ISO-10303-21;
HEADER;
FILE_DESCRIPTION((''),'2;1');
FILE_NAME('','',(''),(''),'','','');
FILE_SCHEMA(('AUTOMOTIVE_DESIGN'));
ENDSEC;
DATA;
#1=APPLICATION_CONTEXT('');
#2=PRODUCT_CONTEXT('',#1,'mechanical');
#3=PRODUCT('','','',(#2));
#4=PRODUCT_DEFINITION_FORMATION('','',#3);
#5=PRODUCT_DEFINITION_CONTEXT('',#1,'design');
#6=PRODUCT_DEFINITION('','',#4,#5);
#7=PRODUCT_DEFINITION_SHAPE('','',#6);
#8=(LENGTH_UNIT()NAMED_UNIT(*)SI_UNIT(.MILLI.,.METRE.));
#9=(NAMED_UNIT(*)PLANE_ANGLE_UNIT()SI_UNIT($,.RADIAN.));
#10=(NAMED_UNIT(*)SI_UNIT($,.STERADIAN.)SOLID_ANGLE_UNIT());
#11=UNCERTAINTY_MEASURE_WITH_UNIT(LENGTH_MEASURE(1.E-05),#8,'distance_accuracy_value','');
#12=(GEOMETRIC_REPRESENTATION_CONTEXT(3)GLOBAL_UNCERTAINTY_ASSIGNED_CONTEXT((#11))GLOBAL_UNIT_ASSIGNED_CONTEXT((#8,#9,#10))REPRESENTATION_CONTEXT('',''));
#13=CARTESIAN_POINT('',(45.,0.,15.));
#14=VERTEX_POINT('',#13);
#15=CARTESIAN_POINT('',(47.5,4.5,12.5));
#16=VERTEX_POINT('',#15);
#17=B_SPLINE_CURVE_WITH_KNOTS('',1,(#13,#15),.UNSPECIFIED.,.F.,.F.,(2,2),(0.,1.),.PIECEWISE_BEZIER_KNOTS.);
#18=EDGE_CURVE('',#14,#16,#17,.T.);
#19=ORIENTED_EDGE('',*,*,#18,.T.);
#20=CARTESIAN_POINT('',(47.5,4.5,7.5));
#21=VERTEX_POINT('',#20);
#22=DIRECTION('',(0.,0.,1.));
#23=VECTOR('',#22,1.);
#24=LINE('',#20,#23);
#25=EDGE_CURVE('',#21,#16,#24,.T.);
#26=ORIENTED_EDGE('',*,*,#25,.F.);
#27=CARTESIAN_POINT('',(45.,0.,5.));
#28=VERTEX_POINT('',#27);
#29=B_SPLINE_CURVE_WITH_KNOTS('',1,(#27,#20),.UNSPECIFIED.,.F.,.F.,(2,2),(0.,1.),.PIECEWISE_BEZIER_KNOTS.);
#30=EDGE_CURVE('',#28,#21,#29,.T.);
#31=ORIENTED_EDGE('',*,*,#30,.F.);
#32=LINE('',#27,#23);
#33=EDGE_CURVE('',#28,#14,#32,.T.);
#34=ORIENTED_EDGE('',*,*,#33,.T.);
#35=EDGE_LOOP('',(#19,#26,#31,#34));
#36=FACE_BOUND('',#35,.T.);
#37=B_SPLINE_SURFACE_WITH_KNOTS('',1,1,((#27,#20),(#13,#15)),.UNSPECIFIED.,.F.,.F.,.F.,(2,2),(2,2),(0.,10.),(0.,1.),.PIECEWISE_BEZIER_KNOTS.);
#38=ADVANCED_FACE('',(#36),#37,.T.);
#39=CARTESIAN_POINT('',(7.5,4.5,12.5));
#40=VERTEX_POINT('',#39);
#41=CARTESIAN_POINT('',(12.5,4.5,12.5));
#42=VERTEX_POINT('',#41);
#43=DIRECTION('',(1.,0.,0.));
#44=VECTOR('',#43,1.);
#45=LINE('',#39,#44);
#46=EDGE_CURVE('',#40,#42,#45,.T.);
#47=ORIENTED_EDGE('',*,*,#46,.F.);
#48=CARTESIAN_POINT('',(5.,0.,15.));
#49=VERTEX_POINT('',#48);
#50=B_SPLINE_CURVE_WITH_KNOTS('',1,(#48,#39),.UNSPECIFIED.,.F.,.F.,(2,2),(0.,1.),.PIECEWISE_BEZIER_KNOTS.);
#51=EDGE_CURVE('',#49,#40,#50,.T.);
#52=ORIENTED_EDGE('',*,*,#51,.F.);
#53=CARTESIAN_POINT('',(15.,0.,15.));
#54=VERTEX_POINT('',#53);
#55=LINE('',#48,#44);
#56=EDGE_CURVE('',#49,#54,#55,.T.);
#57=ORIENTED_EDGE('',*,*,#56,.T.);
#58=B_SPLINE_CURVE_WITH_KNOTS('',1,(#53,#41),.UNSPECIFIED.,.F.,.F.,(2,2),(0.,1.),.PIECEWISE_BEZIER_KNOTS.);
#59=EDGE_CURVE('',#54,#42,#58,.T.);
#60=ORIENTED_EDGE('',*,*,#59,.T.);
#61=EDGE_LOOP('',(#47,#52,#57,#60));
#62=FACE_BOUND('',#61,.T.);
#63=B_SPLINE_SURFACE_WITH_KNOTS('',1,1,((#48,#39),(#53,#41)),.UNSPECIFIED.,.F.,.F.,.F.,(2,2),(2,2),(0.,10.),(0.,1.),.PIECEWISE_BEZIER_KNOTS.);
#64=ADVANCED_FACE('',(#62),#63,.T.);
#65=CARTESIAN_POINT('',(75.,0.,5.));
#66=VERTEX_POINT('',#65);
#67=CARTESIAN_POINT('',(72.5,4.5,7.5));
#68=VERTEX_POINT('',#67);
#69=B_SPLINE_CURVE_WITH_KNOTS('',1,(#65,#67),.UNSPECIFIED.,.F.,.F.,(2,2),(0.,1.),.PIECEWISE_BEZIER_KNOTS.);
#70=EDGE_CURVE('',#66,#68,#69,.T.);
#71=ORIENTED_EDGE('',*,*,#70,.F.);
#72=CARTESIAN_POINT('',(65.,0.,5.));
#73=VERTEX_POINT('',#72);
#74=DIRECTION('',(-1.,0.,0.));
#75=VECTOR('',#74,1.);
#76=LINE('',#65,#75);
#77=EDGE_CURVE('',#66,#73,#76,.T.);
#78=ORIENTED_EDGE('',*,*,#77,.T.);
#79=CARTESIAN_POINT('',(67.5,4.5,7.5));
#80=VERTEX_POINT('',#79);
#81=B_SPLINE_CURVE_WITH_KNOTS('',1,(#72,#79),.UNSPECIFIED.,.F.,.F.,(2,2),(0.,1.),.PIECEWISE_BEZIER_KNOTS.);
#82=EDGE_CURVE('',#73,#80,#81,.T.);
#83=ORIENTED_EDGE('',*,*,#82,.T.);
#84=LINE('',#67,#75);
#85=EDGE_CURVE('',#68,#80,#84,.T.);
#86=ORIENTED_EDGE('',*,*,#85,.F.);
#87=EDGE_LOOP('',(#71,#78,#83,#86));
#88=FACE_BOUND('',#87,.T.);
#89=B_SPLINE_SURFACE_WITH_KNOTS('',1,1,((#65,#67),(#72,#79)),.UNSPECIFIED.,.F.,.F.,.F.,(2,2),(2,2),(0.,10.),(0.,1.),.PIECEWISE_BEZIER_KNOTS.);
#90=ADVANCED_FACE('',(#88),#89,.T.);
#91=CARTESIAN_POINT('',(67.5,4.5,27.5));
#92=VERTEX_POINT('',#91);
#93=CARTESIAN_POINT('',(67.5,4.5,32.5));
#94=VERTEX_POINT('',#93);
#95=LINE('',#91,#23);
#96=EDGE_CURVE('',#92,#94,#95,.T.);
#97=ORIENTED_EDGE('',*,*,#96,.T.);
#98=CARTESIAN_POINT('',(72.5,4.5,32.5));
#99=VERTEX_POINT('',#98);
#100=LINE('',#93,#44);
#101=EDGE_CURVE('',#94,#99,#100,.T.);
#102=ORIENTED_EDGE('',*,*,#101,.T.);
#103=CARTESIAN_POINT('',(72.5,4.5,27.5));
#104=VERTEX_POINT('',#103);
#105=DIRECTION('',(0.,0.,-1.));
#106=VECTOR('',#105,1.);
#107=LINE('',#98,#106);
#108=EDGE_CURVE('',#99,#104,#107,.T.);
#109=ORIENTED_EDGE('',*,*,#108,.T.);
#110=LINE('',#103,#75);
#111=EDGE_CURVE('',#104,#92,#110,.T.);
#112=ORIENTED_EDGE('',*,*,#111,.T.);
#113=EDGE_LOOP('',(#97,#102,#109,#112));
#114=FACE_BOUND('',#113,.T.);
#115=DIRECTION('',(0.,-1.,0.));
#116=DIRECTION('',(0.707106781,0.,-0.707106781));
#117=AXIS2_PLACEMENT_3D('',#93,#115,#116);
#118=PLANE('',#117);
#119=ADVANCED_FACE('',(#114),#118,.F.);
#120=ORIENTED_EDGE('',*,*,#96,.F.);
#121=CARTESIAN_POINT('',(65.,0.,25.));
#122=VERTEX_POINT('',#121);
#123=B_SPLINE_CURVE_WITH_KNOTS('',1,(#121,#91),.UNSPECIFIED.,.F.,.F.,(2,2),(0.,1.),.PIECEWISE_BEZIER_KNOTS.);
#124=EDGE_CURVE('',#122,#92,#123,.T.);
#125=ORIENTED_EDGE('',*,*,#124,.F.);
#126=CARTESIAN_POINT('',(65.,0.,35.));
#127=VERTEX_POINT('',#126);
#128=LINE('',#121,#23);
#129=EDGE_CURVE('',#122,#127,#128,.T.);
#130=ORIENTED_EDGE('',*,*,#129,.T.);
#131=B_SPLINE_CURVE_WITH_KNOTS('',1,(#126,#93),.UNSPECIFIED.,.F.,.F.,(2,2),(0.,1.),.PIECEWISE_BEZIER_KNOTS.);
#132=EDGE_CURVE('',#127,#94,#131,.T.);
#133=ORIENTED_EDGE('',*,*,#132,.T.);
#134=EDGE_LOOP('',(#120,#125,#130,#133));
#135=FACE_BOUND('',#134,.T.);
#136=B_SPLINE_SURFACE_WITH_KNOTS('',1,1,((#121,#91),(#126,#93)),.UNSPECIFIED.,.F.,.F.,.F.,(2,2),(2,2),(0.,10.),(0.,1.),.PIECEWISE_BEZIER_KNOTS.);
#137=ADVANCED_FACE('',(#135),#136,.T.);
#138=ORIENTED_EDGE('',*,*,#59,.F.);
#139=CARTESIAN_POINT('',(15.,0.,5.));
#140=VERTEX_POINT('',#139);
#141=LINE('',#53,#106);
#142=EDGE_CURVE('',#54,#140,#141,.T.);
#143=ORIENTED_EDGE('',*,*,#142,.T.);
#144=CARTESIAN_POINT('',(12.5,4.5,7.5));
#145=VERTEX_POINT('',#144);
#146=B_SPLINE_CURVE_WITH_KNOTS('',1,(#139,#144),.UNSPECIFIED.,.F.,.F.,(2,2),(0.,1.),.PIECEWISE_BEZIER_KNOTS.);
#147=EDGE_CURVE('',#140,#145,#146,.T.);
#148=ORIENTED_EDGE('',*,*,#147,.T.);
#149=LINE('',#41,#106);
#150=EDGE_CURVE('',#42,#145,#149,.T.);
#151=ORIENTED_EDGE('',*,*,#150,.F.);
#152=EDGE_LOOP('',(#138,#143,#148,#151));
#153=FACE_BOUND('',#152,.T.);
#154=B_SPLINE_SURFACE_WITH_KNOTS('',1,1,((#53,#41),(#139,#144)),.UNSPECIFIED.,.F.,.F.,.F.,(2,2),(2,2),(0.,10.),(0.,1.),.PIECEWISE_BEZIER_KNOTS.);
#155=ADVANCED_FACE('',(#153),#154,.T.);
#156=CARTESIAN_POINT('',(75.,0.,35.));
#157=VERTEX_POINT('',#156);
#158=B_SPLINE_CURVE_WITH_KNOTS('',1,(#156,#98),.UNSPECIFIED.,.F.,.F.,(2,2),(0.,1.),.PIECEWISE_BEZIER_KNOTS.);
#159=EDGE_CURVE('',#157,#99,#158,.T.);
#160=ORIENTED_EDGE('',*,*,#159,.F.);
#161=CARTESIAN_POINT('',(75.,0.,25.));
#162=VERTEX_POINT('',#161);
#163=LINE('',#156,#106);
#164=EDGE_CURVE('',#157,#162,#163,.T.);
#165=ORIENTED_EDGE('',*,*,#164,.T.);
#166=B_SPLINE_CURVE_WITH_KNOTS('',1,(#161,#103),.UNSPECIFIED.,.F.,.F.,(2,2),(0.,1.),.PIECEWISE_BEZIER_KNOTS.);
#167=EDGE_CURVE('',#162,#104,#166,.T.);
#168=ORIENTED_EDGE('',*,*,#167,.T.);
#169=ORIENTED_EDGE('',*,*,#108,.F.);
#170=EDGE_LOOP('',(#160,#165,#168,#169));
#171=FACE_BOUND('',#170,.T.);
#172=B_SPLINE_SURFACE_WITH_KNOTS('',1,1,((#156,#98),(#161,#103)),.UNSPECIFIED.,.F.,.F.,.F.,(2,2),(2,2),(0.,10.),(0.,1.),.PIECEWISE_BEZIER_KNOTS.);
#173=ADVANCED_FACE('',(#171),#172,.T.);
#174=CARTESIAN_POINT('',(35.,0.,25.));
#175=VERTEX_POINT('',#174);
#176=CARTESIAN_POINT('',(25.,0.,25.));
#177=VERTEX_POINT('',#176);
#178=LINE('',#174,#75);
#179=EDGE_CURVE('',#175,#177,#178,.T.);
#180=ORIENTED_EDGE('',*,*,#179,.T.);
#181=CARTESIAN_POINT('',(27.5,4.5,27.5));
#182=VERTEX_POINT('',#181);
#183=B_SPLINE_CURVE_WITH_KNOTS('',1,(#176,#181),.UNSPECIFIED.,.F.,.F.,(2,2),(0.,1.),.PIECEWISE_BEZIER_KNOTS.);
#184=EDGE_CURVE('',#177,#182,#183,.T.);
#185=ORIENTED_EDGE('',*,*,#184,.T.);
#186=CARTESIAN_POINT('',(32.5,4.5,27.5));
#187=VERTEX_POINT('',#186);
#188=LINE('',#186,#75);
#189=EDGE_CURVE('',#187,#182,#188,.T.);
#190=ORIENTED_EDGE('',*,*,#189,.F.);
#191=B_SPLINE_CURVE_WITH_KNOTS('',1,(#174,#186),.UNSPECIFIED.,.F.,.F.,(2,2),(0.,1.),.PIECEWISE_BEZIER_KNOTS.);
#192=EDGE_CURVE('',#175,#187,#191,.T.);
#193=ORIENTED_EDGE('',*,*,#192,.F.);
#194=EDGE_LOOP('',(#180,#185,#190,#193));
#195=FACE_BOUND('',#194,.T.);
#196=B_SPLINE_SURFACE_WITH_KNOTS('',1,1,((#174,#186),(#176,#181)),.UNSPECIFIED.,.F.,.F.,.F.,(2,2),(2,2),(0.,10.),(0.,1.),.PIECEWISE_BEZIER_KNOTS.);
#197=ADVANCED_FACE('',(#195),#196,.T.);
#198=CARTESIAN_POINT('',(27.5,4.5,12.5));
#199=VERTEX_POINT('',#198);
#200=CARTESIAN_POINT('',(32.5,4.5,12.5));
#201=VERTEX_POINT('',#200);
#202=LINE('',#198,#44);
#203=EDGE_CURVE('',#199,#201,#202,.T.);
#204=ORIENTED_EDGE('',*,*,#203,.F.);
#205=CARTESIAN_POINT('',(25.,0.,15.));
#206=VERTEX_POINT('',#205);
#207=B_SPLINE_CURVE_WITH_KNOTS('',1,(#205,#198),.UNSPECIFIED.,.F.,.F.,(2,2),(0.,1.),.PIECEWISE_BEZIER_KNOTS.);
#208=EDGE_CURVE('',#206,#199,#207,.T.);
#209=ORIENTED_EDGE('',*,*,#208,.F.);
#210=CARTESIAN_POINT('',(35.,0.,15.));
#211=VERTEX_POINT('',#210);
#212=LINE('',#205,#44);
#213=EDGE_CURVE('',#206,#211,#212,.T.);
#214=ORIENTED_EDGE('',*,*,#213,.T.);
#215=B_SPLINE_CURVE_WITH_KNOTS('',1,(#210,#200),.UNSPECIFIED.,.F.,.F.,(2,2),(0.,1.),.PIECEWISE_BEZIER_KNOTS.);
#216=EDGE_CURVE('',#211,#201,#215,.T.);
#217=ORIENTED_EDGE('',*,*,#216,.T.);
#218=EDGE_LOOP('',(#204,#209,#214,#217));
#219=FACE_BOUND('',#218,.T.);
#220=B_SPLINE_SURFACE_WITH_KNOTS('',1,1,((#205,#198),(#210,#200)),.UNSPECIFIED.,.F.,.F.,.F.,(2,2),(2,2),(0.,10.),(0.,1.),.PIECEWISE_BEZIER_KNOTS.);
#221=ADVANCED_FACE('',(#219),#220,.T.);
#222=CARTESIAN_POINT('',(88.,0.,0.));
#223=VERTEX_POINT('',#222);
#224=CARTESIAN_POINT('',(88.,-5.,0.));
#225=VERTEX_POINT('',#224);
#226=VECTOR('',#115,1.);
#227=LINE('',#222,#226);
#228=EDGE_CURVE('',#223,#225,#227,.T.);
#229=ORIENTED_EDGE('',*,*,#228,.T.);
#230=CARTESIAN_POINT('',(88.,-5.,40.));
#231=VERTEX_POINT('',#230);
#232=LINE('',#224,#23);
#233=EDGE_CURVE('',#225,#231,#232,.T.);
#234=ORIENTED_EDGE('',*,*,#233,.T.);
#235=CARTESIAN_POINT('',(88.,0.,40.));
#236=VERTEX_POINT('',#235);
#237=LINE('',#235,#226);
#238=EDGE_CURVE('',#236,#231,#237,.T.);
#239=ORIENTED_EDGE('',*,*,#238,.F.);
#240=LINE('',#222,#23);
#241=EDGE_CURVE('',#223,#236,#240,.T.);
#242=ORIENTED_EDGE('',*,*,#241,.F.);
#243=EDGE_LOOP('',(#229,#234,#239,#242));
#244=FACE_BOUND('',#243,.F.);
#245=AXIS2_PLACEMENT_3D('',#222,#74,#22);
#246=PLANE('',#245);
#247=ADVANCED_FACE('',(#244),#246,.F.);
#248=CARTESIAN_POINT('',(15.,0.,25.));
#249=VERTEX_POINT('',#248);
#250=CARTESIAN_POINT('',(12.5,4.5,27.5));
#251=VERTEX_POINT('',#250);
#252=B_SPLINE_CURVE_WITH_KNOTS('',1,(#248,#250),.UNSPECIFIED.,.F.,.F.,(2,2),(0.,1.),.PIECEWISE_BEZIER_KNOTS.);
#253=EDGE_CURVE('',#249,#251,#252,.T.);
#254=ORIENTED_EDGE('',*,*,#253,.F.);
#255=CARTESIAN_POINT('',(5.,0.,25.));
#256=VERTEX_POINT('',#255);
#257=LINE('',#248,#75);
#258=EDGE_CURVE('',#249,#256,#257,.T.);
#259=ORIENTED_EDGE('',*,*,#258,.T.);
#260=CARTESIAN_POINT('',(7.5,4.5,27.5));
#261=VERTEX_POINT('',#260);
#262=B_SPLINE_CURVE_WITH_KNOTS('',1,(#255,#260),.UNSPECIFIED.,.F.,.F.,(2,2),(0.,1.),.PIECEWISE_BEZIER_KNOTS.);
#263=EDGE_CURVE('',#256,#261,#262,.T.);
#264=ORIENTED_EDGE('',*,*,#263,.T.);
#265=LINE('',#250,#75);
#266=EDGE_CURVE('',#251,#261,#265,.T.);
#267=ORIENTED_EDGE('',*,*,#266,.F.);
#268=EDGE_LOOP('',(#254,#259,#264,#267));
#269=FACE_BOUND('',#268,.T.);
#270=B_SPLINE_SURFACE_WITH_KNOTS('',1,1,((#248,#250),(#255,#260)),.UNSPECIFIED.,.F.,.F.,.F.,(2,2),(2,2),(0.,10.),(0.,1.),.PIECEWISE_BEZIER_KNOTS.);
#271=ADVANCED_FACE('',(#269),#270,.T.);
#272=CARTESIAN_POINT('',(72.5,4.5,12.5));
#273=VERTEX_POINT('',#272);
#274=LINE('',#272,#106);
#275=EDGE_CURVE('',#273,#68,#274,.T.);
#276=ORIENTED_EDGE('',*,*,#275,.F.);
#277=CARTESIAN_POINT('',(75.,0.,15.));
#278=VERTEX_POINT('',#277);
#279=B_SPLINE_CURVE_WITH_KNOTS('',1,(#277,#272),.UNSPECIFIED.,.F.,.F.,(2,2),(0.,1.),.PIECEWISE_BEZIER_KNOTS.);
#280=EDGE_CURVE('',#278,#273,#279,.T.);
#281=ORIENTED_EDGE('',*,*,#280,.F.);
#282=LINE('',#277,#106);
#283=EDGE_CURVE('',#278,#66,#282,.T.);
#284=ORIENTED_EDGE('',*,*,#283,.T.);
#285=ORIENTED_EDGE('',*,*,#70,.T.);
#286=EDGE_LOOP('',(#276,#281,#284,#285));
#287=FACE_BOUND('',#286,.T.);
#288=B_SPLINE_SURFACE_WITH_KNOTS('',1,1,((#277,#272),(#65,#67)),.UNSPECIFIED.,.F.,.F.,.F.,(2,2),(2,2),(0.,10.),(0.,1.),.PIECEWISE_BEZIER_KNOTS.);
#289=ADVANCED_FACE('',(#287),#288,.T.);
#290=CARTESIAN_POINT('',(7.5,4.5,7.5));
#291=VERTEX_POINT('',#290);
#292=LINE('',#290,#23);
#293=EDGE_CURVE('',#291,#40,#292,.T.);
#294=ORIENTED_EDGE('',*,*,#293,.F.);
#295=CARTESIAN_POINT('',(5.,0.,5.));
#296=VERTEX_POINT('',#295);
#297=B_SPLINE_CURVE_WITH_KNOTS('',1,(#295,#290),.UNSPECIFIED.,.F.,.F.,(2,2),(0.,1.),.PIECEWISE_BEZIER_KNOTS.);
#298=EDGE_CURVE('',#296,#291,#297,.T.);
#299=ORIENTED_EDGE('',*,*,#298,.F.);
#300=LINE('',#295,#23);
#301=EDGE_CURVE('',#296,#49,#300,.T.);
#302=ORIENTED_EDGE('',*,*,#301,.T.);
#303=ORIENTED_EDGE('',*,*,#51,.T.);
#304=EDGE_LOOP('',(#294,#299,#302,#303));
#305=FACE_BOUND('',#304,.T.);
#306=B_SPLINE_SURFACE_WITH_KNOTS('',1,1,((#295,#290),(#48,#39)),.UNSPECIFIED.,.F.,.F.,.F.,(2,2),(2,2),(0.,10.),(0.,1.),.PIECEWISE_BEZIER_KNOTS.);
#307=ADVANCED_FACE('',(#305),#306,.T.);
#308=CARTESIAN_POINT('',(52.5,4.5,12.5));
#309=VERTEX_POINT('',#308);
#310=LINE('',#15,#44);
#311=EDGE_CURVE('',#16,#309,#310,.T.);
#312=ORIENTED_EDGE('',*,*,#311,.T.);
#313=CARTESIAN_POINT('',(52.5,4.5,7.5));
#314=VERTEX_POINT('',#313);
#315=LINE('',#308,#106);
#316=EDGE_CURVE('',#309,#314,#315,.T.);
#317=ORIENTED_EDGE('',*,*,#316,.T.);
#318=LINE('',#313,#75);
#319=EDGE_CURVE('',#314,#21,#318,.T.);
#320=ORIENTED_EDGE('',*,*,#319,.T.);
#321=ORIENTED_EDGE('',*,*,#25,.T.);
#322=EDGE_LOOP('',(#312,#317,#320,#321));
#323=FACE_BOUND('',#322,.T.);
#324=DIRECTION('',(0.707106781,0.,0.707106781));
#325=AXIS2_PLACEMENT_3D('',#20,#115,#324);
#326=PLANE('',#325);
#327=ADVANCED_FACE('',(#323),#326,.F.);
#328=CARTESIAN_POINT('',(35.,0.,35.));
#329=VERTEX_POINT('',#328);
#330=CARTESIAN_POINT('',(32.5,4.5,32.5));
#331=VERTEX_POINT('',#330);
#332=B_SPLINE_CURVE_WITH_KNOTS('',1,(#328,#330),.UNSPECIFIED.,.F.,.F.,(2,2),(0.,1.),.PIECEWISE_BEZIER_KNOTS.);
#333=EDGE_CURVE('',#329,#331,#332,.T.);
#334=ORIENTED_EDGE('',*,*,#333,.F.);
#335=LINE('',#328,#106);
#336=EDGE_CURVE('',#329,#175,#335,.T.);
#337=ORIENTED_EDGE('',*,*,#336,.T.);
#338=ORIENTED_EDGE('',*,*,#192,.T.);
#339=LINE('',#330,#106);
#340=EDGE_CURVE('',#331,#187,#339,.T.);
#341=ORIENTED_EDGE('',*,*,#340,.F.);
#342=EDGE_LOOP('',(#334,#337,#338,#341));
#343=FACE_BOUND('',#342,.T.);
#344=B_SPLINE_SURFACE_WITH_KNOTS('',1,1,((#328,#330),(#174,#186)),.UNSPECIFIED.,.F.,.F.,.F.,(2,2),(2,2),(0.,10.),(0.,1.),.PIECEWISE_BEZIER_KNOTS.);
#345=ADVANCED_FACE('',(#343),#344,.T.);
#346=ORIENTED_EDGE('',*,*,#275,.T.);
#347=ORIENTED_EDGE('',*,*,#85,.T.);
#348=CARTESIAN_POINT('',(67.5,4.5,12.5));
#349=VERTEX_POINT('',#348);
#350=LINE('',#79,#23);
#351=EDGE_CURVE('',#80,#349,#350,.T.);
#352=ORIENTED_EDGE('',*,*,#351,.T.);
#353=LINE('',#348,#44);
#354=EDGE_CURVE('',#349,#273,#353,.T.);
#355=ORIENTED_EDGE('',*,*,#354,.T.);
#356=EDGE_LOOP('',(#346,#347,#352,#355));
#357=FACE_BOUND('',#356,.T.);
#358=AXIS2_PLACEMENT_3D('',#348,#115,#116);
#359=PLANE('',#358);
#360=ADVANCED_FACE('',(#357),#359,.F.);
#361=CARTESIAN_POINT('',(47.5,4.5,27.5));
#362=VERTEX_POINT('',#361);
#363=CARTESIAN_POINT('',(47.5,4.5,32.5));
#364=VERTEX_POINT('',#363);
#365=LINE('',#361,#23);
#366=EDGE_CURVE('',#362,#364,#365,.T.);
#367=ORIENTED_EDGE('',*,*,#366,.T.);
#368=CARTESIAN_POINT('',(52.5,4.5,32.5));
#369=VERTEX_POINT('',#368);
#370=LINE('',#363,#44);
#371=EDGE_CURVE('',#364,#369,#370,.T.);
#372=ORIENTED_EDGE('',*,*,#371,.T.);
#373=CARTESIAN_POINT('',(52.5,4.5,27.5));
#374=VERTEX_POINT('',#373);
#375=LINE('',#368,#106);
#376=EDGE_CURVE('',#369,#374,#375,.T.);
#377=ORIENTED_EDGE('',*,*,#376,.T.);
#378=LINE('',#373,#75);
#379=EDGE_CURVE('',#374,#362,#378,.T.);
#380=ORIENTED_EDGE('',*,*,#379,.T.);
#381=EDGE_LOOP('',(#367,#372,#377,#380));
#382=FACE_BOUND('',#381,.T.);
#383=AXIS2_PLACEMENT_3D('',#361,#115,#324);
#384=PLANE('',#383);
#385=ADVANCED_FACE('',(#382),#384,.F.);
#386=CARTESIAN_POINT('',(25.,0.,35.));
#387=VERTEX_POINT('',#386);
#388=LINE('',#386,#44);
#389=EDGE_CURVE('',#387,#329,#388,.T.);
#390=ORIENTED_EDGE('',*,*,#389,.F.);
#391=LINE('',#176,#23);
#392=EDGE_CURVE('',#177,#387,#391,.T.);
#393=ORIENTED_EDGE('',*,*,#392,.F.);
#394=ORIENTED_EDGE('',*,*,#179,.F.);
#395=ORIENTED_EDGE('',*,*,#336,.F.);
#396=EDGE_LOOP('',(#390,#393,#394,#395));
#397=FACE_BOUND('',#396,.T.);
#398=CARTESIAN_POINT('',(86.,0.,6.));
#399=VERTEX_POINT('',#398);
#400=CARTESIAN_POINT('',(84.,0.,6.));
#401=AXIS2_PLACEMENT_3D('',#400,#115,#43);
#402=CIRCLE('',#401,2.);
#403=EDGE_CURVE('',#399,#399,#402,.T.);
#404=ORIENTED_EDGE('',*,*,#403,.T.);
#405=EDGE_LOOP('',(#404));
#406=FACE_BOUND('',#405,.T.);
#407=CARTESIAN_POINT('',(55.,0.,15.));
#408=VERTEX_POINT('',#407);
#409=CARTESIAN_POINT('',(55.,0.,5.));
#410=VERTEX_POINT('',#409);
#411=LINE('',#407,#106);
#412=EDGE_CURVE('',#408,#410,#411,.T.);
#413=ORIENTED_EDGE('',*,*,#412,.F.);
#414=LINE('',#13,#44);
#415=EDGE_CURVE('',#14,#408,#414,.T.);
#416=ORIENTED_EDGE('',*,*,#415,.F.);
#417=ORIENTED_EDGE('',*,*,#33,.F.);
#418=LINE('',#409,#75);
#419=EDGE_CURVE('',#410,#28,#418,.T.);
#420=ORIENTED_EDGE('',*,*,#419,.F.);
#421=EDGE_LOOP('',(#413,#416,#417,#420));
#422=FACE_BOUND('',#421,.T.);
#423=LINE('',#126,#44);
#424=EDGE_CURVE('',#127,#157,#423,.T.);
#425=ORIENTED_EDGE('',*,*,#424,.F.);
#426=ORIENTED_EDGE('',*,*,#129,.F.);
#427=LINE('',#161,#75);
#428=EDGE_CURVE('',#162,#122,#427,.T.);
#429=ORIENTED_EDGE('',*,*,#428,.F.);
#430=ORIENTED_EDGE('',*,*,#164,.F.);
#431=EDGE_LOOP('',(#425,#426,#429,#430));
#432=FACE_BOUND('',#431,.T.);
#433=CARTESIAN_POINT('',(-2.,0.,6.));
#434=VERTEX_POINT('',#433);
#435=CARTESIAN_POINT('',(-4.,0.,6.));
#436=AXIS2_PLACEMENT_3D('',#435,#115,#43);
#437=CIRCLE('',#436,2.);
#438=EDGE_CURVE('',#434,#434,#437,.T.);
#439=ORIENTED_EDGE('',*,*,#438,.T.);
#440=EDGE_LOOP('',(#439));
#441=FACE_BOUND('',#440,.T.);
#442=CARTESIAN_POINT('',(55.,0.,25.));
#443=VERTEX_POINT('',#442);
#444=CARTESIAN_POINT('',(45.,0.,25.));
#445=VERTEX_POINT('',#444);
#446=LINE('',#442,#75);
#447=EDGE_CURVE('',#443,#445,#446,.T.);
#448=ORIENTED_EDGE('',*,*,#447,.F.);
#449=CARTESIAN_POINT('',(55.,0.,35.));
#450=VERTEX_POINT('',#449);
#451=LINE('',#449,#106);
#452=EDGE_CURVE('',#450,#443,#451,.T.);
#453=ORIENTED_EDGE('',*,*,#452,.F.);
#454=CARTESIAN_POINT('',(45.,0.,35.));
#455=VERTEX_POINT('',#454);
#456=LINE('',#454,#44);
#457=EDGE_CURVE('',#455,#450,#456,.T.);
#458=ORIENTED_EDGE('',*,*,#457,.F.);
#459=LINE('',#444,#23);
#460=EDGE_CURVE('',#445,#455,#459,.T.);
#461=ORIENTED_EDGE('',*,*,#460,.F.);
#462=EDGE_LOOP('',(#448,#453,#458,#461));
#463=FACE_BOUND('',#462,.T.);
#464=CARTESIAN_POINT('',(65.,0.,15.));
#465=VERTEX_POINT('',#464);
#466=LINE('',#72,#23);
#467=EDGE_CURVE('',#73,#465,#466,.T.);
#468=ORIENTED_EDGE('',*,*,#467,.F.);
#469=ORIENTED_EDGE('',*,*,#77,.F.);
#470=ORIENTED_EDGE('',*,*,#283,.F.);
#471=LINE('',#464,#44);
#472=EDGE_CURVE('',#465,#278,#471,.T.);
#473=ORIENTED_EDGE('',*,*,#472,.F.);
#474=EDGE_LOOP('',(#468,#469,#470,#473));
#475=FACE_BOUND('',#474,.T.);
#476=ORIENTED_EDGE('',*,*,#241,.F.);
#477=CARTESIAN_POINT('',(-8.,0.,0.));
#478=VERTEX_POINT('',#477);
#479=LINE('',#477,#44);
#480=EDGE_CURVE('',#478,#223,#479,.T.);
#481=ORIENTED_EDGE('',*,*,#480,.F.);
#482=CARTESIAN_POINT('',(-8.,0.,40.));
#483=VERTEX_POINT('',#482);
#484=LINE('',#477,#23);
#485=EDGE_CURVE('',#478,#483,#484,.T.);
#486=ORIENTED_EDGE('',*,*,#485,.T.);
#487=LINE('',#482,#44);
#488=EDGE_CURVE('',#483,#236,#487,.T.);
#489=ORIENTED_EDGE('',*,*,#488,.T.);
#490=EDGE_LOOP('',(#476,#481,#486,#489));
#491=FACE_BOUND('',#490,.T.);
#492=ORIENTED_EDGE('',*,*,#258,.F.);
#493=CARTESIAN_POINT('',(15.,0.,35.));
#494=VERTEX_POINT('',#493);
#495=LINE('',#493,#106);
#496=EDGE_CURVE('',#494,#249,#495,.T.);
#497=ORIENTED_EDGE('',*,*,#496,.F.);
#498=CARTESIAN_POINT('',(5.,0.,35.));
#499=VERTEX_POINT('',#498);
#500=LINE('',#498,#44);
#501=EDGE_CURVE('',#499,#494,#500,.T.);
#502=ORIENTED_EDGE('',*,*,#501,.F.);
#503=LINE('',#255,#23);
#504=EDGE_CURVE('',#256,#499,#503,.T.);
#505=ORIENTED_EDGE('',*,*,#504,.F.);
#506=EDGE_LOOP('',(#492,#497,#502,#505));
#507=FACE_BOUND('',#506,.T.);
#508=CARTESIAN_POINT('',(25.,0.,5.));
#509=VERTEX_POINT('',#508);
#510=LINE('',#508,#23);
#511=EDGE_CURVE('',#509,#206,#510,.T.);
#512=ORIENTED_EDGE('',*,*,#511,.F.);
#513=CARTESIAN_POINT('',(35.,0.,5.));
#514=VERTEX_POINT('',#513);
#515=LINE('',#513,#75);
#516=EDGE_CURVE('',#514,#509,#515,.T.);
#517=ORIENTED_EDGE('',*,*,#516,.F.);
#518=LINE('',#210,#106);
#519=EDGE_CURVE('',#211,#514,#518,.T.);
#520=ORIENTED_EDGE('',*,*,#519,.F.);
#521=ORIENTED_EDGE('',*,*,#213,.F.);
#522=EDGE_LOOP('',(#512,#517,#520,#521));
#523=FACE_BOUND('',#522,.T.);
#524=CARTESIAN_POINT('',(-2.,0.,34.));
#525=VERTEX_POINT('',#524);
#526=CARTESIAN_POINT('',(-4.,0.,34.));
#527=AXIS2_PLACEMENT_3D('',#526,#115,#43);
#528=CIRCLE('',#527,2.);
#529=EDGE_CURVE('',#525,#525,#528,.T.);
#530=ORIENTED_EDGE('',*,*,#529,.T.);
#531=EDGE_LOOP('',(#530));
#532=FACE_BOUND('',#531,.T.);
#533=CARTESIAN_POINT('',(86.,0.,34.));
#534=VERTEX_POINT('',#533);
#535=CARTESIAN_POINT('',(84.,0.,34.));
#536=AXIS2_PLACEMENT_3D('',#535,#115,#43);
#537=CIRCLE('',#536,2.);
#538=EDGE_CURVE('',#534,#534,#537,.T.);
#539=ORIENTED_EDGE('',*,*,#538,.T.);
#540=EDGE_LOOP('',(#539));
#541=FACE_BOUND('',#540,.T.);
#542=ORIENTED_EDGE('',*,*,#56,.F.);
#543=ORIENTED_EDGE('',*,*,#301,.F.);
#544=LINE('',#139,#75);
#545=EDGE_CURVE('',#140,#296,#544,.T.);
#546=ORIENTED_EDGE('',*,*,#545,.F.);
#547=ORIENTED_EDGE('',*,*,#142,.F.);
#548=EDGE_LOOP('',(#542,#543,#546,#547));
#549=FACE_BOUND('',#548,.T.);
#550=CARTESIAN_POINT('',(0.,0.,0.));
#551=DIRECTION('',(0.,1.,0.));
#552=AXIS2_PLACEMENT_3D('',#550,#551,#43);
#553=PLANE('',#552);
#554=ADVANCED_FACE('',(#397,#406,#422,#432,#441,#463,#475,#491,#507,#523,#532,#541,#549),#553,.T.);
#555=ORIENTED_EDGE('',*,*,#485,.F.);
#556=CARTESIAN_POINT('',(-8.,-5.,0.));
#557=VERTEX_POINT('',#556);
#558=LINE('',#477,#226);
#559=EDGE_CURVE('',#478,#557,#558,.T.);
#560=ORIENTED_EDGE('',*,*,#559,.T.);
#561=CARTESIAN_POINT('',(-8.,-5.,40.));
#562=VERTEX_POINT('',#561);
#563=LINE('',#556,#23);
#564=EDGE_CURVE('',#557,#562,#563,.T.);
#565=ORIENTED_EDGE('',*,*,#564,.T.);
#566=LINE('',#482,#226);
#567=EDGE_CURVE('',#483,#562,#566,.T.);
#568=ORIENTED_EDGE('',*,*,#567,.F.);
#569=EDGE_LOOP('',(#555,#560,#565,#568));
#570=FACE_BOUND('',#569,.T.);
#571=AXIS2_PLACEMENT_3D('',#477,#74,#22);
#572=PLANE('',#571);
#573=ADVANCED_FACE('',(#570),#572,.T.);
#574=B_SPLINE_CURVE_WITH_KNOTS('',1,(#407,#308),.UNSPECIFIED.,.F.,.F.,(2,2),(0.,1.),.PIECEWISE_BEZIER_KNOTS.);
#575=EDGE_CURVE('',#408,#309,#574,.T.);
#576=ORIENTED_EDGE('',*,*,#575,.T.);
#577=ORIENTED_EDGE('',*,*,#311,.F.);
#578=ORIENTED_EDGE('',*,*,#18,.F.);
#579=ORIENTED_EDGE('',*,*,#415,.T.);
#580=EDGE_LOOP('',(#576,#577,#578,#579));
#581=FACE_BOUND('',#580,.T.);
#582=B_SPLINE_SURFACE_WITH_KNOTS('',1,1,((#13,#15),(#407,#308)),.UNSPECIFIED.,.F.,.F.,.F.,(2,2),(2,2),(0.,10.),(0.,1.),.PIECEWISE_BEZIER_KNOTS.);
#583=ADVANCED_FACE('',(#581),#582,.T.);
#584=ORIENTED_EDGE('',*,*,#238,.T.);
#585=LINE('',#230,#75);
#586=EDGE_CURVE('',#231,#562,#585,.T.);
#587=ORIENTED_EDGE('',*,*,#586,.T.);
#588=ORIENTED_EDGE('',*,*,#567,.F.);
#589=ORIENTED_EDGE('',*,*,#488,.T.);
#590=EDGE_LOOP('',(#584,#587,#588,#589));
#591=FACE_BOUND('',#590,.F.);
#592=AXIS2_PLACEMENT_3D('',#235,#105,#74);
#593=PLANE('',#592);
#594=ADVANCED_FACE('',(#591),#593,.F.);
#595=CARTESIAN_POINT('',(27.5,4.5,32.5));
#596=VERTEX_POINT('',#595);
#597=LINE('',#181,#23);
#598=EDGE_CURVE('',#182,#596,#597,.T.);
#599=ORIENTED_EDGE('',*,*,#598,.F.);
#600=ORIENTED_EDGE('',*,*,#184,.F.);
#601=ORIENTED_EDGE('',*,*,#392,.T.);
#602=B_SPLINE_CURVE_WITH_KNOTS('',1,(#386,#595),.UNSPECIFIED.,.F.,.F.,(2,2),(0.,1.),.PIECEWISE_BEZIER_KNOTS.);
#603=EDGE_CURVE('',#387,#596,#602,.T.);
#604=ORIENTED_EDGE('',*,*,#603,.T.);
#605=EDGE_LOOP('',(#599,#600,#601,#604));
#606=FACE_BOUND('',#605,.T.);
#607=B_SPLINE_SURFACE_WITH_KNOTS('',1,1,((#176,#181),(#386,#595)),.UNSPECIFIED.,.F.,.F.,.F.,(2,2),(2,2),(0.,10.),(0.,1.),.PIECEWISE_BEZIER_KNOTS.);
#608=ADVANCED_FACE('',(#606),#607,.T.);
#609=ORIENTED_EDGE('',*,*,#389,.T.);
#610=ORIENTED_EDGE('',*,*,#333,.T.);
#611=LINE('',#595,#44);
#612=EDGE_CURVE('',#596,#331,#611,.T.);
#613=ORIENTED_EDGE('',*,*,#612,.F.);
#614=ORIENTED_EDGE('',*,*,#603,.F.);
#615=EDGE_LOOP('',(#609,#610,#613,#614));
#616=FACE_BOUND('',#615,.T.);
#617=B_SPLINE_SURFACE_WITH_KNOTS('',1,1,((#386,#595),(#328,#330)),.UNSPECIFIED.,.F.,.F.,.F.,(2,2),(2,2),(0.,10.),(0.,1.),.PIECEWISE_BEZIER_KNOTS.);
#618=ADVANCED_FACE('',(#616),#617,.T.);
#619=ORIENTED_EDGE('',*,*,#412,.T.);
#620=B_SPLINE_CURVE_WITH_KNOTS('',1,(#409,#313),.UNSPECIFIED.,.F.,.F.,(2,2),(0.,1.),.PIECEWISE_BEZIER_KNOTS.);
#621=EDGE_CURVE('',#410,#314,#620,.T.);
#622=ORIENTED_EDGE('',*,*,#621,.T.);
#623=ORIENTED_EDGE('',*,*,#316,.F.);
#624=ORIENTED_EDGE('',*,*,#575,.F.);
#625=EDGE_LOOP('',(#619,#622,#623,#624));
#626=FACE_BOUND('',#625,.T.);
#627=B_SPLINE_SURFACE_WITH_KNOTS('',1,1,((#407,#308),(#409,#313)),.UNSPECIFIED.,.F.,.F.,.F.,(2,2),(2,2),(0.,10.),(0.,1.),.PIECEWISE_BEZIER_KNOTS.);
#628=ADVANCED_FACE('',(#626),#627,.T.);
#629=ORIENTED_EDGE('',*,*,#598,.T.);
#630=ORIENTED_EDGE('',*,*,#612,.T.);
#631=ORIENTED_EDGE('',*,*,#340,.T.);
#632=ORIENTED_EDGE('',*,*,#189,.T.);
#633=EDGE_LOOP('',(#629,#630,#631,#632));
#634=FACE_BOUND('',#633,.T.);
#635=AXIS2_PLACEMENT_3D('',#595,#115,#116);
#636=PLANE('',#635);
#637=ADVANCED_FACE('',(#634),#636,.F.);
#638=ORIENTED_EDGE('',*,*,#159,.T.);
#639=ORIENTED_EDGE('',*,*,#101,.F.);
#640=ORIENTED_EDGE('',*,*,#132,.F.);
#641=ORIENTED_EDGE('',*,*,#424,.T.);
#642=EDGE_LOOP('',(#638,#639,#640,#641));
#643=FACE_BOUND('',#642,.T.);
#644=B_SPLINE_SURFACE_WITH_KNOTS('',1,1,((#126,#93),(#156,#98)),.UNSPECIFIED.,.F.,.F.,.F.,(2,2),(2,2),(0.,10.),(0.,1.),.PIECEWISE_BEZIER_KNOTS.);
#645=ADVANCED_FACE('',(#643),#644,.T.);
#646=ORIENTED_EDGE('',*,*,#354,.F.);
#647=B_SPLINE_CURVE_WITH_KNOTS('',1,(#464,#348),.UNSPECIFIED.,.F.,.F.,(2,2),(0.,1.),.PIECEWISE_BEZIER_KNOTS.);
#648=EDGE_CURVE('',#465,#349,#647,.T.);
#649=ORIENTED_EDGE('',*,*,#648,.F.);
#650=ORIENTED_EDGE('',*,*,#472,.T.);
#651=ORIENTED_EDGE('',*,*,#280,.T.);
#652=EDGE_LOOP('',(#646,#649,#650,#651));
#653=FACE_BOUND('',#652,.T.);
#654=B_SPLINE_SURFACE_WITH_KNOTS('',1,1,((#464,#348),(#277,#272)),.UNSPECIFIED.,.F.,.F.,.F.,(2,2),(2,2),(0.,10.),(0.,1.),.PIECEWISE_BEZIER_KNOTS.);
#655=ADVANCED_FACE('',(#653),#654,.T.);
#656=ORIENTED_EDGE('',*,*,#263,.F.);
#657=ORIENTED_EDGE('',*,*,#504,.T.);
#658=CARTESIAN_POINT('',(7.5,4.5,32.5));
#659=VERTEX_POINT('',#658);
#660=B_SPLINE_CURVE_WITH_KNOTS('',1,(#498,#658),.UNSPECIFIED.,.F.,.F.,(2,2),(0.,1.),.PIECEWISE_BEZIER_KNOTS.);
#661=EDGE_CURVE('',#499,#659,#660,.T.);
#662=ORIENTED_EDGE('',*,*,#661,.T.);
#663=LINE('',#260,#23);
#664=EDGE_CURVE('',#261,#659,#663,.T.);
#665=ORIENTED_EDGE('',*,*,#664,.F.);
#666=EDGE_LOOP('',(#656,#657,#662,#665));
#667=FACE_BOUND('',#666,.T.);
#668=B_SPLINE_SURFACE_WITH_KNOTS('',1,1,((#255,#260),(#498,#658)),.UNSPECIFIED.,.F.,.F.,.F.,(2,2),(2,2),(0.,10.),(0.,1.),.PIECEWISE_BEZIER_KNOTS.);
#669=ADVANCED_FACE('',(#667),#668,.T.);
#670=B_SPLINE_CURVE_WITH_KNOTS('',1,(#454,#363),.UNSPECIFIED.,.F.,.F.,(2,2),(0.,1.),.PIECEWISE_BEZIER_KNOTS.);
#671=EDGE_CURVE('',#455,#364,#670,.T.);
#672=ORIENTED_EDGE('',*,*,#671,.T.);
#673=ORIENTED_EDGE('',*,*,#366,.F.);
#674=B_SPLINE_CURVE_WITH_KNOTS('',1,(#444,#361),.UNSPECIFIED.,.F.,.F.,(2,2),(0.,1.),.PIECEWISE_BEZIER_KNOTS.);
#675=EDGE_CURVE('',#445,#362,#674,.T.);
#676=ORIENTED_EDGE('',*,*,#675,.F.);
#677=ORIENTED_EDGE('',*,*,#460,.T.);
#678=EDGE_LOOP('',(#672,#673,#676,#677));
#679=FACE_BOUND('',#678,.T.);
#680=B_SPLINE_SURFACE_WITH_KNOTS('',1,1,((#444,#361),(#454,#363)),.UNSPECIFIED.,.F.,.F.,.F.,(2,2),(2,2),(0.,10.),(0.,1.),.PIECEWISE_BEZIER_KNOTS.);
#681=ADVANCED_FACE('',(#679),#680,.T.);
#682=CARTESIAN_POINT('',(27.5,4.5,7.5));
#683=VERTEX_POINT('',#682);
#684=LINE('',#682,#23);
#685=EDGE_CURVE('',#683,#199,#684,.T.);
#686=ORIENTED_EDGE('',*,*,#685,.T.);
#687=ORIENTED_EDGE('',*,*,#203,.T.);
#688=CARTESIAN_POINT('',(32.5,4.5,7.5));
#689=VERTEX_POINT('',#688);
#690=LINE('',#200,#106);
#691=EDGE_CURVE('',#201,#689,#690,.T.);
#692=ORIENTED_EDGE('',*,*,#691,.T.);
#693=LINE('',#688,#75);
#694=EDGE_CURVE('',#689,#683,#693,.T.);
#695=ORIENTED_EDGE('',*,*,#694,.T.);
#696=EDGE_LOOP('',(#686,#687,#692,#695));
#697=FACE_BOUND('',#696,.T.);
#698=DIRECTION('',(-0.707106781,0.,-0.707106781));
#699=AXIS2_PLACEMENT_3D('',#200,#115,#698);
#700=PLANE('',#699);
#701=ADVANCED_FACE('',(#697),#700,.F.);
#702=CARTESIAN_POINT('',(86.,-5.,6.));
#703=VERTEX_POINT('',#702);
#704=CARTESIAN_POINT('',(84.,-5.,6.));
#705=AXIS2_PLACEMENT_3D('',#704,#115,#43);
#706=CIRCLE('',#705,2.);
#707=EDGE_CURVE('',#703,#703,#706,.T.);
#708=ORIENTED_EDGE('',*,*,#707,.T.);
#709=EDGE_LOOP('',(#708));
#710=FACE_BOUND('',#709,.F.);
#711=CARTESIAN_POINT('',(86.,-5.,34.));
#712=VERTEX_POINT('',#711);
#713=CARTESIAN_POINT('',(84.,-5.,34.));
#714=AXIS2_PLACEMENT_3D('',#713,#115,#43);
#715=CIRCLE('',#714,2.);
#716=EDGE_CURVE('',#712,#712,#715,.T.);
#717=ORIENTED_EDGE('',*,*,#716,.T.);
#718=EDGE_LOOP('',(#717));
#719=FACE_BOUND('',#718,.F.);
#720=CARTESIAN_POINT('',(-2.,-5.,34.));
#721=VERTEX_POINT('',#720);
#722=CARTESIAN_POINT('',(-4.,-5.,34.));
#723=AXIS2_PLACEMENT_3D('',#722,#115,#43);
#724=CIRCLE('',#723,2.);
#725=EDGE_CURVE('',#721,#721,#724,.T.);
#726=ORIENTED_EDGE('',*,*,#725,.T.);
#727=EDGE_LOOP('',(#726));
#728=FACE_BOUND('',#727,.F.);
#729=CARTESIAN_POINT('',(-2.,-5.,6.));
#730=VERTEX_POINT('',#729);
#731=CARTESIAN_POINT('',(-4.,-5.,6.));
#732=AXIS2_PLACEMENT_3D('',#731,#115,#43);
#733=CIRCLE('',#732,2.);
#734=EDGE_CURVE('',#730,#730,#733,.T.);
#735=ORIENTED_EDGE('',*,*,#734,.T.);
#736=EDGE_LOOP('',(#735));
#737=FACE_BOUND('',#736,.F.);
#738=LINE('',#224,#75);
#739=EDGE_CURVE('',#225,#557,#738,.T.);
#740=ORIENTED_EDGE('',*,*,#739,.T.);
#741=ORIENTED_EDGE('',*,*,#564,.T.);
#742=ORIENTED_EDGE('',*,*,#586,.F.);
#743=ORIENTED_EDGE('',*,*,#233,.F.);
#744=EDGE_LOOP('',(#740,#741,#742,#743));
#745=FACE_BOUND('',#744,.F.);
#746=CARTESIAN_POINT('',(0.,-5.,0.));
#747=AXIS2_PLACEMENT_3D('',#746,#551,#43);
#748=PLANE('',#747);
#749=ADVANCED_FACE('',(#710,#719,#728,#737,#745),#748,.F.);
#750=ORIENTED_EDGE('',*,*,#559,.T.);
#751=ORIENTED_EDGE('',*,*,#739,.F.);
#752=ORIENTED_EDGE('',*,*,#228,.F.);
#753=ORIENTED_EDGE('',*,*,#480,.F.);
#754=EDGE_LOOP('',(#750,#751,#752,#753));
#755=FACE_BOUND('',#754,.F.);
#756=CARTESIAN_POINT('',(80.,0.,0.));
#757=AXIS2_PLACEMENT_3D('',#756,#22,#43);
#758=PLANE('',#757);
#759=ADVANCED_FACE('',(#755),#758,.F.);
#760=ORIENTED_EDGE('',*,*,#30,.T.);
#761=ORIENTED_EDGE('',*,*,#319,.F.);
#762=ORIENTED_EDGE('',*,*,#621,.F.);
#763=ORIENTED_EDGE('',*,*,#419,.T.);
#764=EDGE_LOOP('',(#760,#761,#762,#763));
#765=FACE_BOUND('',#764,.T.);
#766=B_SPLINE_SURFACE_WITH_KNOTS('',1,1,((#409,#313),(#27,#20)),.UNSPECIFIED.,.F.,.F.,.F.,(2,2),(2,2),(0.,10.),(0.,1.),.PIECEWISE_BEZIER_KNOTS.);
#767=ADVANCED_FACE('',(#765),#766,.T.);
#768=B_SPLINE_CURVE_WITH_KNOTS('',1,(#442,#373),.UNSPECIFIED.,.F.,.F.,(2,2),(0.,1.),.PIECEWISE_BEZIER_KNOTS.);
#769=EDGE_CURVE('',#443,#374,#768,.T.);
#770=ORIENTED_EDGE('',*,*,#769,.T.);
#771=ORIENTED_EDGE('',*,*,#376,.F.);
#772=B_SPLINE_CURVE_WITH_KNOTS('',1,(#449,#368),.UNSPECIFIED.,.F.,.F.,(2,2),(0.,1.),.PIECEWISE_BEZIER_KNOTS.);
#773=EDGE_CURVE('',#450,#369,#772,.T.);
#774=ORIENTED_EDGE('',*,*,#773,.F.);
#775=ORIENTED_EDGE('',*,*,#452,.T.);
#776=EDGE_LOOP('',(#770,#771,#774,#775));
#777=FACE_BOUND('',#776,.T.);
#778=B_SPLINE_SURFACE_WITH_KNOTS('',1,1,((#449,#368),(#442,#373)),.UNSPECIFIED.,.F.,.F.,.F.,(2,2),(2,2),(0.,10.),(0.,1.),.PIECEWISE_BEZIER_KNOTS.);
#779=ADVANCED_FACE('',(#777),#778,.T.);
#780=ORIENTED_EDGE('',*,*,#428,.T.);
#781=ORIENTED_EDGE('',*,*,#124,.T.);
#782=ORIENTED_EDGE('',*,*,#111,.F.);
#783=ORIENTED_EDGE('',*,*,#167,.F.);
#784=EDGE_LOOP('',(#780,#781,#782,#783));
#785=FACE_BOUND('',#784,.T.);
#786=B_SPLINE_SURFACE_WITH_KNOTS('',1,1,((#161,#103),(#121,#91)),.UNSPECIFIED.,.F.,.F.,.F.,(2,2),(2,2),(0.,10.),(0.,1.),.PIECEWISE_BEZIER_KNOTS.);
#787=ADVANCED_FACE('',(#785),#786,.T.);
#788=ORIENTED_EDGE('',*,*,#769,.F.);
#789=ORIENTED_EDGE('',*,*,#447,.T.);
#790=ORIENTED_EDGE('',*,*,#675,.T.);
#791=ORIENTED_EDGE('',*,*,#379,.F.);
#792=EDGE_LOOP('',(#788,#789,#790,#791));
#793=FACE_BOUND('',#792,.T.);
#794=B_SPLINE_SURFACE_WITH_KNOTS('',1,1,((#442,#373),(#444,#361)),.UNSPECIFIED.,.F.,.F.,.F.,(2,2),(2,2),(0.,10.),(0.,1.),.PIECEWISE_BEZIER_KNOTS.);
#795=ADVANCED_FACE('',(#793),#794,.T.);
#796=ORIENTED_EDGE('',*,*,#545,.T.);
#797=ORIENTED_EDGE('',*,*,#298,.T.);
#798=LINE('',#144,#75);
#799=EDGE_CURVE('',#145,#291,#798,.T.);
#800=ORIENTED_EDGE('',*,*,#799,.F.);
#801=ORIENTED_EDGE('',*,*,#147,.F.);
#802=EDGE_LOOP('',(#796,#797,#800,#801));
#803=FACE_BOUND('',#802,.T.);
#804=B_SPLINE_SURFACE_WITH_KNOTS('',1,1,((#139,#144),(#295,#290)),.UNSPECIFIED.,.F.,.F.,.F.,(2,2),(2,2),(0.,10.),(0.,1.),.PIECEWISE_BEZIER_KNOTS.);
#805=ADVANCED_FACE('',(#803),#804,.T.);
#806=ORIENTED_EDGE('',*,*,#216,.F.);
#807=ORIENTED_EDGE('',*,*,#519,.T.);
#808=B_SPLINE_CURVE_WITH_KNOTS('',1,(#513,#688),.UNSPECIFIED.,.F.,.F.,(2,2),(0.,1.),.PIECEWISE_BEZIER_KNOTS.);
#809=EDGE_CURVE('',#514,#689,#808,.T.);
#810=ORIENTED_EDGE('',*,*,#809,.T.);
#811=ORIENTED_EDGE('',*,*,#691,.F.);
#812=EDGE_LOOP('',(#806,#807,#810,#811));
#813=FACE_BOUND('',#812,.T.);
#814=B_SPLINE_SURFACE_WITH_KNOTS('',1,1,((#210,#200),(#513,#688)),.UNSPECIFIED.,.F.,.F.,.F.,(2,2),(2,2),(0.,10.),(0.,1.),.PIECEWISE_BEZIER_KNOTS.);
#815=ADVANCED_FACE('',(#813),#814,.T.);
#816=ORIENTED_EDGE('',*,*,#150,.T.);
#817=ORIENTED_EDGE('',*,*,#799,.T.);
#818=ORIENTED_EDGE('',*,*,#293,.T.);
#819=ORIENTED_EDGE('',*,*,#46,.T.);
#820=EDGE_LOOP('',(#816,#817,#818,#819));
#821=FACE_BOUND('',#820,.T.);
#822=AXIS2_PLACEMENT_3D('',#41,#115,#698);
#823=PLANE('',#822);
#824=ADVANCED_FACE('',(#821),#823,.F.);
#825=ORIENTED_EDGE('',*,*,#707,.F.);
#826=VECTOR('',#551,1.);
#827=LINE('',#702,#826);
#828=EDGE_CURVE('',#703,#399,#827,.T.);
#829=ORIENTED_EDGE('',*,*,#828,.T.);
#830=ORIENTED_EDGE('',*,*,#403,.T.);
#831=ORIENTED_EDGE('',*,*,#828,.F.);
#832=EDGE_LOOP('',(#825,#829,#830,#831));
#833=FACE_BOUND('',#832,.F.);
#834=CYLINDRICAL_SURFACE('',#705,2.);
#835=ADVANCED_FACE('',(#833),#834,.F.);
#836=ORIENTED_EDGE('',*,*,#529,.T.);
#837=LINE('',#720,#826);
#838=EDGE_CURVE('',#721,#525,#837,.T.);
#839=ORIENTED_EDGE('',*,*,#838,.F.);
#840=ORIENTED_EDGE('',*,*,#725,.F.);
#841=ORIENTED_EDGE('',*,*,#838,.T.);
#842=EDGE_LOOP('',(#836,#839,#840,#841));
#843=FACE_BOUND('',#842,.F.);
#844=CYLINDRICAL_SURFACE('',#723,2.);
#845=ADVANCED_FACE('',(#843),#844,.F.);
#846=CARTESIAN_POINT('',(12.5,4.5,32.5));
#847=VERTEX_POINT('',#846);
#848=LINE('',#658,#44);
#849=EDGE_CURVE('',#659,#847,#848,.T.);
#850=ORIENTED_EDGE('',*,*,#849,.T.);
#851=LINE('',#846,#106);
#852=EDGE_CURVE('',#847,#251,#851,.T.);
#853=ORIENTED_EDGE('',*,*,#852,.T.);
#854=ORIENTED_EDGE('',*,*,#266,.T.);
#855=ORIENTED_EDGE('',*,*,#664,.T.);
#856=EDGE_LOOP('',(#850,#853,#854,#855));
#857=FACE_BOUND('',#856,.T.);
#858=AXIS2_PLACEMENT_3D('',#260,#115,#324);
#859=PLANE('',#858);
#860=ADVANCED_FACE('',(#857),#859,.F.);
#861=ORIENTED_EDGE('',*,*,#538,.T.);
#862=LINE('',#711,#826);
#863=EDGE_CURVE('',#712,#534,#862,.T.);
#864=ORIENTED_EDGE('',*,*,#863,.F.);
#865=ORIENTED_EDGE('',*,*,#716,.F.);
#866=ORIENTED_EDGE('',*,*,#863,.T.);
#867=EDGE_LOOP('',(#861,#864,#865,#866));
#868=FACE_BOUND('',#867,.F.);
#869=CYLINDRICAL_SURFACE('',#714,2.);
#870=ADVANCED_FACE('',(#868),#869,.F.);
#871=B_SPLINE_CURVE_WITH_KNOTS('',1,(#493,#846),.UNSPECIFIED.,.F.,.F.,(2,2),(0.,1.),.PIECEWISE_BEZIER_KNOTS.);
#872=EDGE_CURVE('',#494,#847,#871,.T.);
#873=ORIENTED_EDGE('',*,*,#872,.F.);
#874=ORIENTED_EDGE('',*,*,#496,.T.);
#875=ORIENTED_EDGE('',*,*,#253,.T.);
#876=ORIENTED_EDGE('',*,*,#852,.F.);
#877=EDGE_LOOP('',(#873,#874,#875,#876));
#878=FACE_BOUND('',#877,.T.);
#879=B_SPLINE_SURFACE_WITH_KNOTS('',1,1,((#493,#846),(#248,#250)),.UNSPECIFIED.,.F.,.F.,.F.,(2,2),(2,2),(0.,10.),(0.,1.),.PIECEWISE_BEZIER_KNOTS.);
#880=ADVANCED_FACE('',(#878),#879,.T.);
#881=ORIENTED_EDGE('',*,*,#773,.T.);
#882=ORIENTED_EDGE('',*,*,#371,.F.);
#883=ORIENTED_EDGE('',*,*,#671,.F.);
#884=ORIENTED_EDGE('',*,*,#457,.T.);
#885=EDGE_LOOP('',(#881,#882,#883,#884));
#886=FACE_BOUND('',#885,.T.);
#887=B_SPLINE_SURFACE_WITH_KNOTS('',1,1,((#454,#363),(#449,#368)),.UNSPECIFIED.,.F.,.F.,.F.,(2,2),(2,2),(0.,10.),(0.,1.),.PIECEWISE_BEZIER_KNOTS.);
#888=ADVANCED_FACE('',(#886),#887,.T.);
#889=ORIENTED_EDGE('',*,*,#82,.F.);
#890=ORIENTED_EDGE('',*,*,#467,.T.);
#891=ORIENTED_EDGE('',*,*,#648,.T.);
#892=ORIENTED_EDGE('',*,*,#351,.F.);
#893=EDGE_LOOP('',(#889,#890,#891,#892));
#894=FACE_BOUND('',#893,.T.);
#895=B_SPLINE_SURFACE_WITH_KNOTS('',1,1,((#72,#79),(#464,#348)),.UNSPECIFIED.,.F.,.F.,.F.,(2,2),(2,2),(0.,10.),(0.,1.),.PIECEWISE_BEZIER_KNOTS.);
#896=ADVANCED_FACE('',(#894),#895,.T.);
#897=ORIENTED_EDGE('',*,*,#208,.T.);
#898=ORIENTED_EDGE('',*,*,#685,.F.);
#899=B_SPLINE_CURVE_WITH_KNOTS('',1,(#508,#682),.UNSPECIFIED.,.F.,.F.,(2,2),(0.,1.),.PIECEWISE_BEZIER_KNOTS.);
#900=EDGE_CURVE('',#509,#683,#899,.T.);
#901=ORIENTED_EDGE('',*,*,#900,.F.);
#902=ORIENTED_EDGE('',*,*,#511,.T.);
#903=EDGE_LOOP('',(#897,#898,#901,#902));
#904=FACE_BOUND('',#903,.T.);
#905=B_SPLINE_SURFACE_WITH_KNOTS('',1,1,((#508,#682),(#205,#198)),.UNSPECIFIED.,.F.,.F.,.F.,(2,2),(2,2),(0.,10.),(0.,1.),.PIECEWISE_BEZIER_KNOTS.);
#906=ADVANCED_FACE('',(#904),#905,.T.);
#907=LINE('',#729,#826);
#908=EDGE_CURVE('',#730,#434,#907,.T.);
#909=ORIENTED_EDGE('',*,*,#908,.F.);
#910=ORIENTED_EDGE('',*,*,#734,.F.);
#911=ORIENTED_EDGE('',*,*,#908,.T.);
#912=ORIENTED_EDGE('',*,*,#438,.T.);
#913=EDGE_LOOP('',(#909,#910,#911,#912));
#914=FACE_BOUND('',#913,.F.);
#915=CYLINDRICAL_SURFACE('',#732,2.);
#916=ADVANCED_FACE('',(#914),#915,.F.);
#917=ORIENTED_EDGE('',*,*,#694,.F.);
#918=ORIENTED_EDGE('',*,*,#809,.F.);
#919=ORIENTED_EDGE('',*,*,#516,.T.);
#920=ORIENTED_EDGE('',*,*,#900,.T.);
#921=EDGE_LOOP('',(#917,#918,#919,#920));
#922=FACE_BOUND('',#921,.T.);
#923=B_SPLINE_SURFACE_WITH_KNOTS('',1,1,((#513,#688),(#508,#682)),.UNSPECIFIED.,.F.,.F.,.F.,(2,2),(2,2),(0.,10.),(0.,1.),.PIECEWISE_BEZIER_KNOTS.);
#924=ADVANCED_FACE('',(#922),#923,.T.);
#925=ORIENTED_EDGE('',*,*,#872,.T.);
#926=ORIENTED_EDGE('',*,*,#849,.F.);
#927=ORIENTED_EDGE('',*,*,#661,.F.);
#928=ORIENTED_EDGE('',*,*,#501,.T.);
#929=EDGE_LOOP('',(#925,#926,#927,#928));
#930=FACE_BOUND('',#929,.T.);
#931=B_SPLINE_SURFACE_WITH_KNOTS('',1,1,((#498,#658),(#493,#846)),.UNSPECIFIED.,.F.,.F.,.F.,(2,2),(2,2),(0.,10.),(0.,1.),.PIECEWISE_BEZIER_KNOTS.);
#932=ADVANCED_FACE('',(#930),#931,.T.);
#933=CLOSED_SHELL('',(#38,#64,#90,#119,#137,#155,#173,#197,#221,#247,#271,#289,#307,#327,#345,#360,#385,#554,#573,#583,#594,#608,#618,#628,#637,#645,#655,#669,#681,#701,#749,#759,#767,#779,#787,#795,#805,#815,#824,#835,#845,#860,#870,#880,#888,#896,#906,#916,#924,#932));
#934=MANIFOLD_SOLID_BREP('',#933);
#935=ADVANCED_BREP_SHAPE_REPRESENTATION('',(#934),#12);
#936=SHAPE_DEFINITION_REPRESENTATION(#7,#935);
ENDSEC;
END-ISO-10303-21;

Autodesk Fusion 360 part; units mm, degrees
sketch "baseplate" plane through (0, 0, 0) normal (0, 1, 0) x (1, 0, 0)
  line L0 (0, 0) -> (80, 0)
  line L1 (80, 0) -> (80, -40)
  line L2 (80, -40) -> (0, -40)
  line L3 (0, -40) -> (0, 0)
  dimension "d1" = 80
  dimension "d2" = 40
sketch "pryamid_base" plane through (0, 0, 0) normal (0, 1, 0) x (1, 0, 0)
  line L0 (5, -35) -> (15, -35)
  line L1 (15, -35) -> (15, -25)
  line L2 (15, -25) -> (5, -25)
  line L3 (5, -25) -> (5, -35)
  line L4 (35, -35) -> (35, -25)
  line L5 (35, -25) -> (25, -25)
  line L6 (25, -35) -> (35, -35)
  line L7 (25, -25) -> (25, -35)
  line L8 (75, -35) -> (75, -25)
  line L9 (45, -35) -> (55, -35)
  line L10 (55, -25) -> (45, -25)
  line L11 (65, -25) -> (65, -35)
  line L12 (65, -35) -> (75, -35)
  line L13 (55, -35) -> (55, -25)
  line L14 (45, -25) -> (45, -35)
  line L15 (75, -25) -> (65, -25)
  line L16 (35, -5) -> (25, -5)
  line L17 (35, -15) -> (35, -5)
  line L18 (15, -5) -> (5, -5)
  line L19 (25, -5) -> (25, -15)
  line L20 (45, -15) -> (55, -15)
  line L21 (55, -15) -> (55, -5)
  line L22 (5, -5) -> (5, -15)
  line L23 (45, -5) -> (45, -15)
  line L24 (75, -15) -> (75, -5)
  line L25 (65, -5) -> (65, -15)
  line L26 (75, -5) -> (65, -5)
  line L27 (55, -5) -> (45, -5)
  line L28 (65, -15) -> (75, -15)
  line L29 (5, -15) -> (15, -15)
  line L30 (15, -15) -> (15, -5)
  line L31 (25, -15) -> (35, -15)
  dimension "d3" = 10
  dimension "d4" = 10
  dimension "d5" = 10
  dimension "d6" = 10
  dimension "d7" = 10
  dimension "d8" = 10
  dimension "d9" = 10
  dimension "d10" = 10
  dimension "d11" = 10
  dimension "d12" = 10
  dimension "d13" = 10
  dimension "d14" = 10
  dimension "d15" = 10
  dimension "d16" = 10
  dimension "d17" = 10
  dimension "d18" = 10
ref_plane "WorkPlane1" through (0, 4.5, 0) normal (0, 1, 0) x (0, 0, 1)
sketch "pryamid_offsetplane" plane through (0, 4.5, 0) normal (0, 1, 0) x (1, 0, 0)
  line L0 (7.5, -32.5) -> (12.5, -32.5)
  line L1 (12.5, -32.5) -> (12.5, -27.5)
  line L2 (12.5, -27.5) -> (7.5, -27.5)
  line L3 (7.5, -27.5) -> (7.5, -32.5)
  line L4 (27.5, -27.5) -> (27.5, -32.5)
  line L5 (32.5, -32.5) -> (32.5, -27.5)
  line L6 (27.5, -32.5) -> (32.5, -32.5)
  line L7 (32.5, -27.5) -> (27.5, -27.5)
  line L8 (7.5, -27.5) -> (7.5, -32.5)
  line L9 (12.5, -32.5) -> (12.5, -27.5)
  line L10 (7.5, -32.5) -> (12.5, -32.5)
  line L11 (12.5, -27.5) -> (7.5, -27.5)
  line L12 (47.5, -27.5) -> (47.5, -32.5)
  line L13 (52.5, -32.5) -> (52.5, -27.5)
  line L14 (47.5, -32.5) -> (52.5, -32.5)
  line L15 (52.5, -27.5) -> (47.5, -27.5)
  line L16 (67.5, -27.5) -> (67.5, -32.5)
  line L17 (72.5, -32.5) -> (72.5, -27.5)
  line L18 (67.5, -32.5) -> (72.5, -32.5)
  line L19 (72.5, -27.5) -> (67.5, -27.5)
  line L20 (72.5, -12.5) -> (72.5, -7.5)
  line L21 (27.5, -7.5) -> (27.5, -12.5)
  line L22 (12.5, -12.5) -> (12.5, -7.5)
  line L23 (72.5, -7.5) -> (67.5, -7.5)
  line L24 (12.5, -7.5) -> (7.5, -7.5)
  line L25 (52.5, -12.5) -> (52.5, -7.5)
  line L26 (7.5, -7.5) -> (7.5, -12.5)
  line L27 (7.5, -12.5) -> (12.5, -12.5)
  line L28 (47.5, -12.5) -> (52.5, -12.5)
  line L29 (67.5, -7.5) -> (67.5, -12.5)
  line L30 (47.5, -7.5) -> (47.5, -12.5)
  line L31 (67.5, -12.5) -> (72.5, -12.5)
  line L32 (32.5, -7.5) -> (27.5, -7.5)
  line L33 (52.5, -7.5) -> (47.5, -7.5)
  line L34 (27.5, -12.5) -> (32.5, -12.5)
  line L35 (12.5, -7.5) -> (7.5, -7.5)
  line L36 (32.5, -12.5) -> (32.5, -7.5)
  line L37 (12.5, -12.5) -> (12.5, -7.5)
  line L38 (7.5, -12.5) -> (12.5, -12.5)
  line L39 (7.5, -7.5) -> (7.5, -12.5)
extrude "Extrude1" add sketch "baseplate" against normal blind 5
loft "Loft1" add profiles "pryamid_base", "pryamid_offsetplane" section 1 contours L0 L1 L2 L3 section 2 contours L0 L1 L2 L3 L8 L9 L10 L11
loft "Loft2" add profiles "pryamid_base", "pryamid_offsetplane" section 1 contours L4 L5 L6 L7 section 2 contours L4 L5 L6 L7
loft "Loft3" add profiles "pryamid_base", "pryamid_offsetplane" section 1 contours L9 L10 L13 L14 section 2 contours L12 L13 L14 L15
loft "Loft4" add profiles "pryamid_base", "pryamid_offsetplane" section 1 contours L8 L11 L12 L15 section 2 contours L16 L17 L18 L19
loft "Loft5" add profiles "pryamid_base", "pryamid_offsetplane" section 1 contours L24 L25 L26 L28 section 2 contours L20 L23 L29 L31
loft "Loft6" add profiles "pryamid_base", "pryamid_offsetplane" section 1 contours L20 L21 L23 L27 section 2 contours L25 L28 L30 L33
loft "Loft7" add profiles "pryamid_base", "pryamid_offsetplane" section 1 contours L16 L17 L19 L31 section 2 contours L21 L32 L34 L36
loft "Loft8" add profiles "pryamid_base", "pryamid_offsetplane" section 1 contours L18 L22 L29 L30 section 2 contours L22 L24 L26 L27 L35 L37 L38 L39
sketch "sidewall" plane through (0, 0, 0) normal (0, 1, 0) x (1, 0, 0)
  line L0 (0, 0) -> (-8, 0)
  line L1 (-8, 0) -> (-8, -40)
  line L2 (-8, -40) -> (0, -40)
  line L3 (0, -40) -> (0, 0)
  dimension "d22" = 8
extrude "Extrude2" add sketch "sidewall" along normal blind 0 and the other way blind 5
sketch "sidemount" plane through (0, 0, 0) normal (0, 1, 0) x (1, 0, 0)
  line L0 (80, 0) -> (88, 0)
  line L1 (88, 0) -> (88, -40)
  line L2 (88, -40) -> (80, -40)
  line L3 (80, -40) -> (80, 0)
extrude "Extrude3" add sketch "sidemount" against normal blind 5
sketch "holes" plane through (0, -5, 0) normal (0, -1, 0) x (1, 0, 0)
  line L0 (88, 40) -> (-8, 40)
  line L1 (-8, 40) -> (-8, 0)
  line L2 (-8, 0) -> (88, 0)
  line L3 (88, 0) -> (88, 40)
  line L4 (-8, 0) -> (-4, 0)
  line L5 (-8, 6) -> (-8, 0)
  line L6 (-4, 40) -> (-8, 40)
  line L7 (-8, 40) -> (-8, 34)
  circle A0 centre (-4, 34) radius 2
  circle A1 centre (-4, 6) radius 2
  circle A2 centre (-4, 34) radius 3.4
  circle A3 centre (-4, 6) radius 3.4
  dimension "d29" = 6
  dimension "d30" = 4
  dimension "d31" = 4
  dimension "d32" = 6.8
  dimension "d33" = 6.8
extrude "Extrude4" cut sketch "holes" against normal blind 51 contours A0 | A1
sketch "Sketch7" plane through (0, -5, 0) normal (0, -1, 0) x (1, 0, 0)
  circle A0 centre (84, 34) radius 2
  circle A1 centre (84, 6) radius 2
  circle A2 centre (84, 34) radius 3.4
  circle A3 centre (84, 6) radius 3.4
  dimension "d42" = 4
  dimension "d43" = 4
  dimension "d44" = 6.8
  dimension "d45" = 6.8
extrude "Extrude6" cut sketch "Sketch7" against normal blind 16 contours A0 | A1
